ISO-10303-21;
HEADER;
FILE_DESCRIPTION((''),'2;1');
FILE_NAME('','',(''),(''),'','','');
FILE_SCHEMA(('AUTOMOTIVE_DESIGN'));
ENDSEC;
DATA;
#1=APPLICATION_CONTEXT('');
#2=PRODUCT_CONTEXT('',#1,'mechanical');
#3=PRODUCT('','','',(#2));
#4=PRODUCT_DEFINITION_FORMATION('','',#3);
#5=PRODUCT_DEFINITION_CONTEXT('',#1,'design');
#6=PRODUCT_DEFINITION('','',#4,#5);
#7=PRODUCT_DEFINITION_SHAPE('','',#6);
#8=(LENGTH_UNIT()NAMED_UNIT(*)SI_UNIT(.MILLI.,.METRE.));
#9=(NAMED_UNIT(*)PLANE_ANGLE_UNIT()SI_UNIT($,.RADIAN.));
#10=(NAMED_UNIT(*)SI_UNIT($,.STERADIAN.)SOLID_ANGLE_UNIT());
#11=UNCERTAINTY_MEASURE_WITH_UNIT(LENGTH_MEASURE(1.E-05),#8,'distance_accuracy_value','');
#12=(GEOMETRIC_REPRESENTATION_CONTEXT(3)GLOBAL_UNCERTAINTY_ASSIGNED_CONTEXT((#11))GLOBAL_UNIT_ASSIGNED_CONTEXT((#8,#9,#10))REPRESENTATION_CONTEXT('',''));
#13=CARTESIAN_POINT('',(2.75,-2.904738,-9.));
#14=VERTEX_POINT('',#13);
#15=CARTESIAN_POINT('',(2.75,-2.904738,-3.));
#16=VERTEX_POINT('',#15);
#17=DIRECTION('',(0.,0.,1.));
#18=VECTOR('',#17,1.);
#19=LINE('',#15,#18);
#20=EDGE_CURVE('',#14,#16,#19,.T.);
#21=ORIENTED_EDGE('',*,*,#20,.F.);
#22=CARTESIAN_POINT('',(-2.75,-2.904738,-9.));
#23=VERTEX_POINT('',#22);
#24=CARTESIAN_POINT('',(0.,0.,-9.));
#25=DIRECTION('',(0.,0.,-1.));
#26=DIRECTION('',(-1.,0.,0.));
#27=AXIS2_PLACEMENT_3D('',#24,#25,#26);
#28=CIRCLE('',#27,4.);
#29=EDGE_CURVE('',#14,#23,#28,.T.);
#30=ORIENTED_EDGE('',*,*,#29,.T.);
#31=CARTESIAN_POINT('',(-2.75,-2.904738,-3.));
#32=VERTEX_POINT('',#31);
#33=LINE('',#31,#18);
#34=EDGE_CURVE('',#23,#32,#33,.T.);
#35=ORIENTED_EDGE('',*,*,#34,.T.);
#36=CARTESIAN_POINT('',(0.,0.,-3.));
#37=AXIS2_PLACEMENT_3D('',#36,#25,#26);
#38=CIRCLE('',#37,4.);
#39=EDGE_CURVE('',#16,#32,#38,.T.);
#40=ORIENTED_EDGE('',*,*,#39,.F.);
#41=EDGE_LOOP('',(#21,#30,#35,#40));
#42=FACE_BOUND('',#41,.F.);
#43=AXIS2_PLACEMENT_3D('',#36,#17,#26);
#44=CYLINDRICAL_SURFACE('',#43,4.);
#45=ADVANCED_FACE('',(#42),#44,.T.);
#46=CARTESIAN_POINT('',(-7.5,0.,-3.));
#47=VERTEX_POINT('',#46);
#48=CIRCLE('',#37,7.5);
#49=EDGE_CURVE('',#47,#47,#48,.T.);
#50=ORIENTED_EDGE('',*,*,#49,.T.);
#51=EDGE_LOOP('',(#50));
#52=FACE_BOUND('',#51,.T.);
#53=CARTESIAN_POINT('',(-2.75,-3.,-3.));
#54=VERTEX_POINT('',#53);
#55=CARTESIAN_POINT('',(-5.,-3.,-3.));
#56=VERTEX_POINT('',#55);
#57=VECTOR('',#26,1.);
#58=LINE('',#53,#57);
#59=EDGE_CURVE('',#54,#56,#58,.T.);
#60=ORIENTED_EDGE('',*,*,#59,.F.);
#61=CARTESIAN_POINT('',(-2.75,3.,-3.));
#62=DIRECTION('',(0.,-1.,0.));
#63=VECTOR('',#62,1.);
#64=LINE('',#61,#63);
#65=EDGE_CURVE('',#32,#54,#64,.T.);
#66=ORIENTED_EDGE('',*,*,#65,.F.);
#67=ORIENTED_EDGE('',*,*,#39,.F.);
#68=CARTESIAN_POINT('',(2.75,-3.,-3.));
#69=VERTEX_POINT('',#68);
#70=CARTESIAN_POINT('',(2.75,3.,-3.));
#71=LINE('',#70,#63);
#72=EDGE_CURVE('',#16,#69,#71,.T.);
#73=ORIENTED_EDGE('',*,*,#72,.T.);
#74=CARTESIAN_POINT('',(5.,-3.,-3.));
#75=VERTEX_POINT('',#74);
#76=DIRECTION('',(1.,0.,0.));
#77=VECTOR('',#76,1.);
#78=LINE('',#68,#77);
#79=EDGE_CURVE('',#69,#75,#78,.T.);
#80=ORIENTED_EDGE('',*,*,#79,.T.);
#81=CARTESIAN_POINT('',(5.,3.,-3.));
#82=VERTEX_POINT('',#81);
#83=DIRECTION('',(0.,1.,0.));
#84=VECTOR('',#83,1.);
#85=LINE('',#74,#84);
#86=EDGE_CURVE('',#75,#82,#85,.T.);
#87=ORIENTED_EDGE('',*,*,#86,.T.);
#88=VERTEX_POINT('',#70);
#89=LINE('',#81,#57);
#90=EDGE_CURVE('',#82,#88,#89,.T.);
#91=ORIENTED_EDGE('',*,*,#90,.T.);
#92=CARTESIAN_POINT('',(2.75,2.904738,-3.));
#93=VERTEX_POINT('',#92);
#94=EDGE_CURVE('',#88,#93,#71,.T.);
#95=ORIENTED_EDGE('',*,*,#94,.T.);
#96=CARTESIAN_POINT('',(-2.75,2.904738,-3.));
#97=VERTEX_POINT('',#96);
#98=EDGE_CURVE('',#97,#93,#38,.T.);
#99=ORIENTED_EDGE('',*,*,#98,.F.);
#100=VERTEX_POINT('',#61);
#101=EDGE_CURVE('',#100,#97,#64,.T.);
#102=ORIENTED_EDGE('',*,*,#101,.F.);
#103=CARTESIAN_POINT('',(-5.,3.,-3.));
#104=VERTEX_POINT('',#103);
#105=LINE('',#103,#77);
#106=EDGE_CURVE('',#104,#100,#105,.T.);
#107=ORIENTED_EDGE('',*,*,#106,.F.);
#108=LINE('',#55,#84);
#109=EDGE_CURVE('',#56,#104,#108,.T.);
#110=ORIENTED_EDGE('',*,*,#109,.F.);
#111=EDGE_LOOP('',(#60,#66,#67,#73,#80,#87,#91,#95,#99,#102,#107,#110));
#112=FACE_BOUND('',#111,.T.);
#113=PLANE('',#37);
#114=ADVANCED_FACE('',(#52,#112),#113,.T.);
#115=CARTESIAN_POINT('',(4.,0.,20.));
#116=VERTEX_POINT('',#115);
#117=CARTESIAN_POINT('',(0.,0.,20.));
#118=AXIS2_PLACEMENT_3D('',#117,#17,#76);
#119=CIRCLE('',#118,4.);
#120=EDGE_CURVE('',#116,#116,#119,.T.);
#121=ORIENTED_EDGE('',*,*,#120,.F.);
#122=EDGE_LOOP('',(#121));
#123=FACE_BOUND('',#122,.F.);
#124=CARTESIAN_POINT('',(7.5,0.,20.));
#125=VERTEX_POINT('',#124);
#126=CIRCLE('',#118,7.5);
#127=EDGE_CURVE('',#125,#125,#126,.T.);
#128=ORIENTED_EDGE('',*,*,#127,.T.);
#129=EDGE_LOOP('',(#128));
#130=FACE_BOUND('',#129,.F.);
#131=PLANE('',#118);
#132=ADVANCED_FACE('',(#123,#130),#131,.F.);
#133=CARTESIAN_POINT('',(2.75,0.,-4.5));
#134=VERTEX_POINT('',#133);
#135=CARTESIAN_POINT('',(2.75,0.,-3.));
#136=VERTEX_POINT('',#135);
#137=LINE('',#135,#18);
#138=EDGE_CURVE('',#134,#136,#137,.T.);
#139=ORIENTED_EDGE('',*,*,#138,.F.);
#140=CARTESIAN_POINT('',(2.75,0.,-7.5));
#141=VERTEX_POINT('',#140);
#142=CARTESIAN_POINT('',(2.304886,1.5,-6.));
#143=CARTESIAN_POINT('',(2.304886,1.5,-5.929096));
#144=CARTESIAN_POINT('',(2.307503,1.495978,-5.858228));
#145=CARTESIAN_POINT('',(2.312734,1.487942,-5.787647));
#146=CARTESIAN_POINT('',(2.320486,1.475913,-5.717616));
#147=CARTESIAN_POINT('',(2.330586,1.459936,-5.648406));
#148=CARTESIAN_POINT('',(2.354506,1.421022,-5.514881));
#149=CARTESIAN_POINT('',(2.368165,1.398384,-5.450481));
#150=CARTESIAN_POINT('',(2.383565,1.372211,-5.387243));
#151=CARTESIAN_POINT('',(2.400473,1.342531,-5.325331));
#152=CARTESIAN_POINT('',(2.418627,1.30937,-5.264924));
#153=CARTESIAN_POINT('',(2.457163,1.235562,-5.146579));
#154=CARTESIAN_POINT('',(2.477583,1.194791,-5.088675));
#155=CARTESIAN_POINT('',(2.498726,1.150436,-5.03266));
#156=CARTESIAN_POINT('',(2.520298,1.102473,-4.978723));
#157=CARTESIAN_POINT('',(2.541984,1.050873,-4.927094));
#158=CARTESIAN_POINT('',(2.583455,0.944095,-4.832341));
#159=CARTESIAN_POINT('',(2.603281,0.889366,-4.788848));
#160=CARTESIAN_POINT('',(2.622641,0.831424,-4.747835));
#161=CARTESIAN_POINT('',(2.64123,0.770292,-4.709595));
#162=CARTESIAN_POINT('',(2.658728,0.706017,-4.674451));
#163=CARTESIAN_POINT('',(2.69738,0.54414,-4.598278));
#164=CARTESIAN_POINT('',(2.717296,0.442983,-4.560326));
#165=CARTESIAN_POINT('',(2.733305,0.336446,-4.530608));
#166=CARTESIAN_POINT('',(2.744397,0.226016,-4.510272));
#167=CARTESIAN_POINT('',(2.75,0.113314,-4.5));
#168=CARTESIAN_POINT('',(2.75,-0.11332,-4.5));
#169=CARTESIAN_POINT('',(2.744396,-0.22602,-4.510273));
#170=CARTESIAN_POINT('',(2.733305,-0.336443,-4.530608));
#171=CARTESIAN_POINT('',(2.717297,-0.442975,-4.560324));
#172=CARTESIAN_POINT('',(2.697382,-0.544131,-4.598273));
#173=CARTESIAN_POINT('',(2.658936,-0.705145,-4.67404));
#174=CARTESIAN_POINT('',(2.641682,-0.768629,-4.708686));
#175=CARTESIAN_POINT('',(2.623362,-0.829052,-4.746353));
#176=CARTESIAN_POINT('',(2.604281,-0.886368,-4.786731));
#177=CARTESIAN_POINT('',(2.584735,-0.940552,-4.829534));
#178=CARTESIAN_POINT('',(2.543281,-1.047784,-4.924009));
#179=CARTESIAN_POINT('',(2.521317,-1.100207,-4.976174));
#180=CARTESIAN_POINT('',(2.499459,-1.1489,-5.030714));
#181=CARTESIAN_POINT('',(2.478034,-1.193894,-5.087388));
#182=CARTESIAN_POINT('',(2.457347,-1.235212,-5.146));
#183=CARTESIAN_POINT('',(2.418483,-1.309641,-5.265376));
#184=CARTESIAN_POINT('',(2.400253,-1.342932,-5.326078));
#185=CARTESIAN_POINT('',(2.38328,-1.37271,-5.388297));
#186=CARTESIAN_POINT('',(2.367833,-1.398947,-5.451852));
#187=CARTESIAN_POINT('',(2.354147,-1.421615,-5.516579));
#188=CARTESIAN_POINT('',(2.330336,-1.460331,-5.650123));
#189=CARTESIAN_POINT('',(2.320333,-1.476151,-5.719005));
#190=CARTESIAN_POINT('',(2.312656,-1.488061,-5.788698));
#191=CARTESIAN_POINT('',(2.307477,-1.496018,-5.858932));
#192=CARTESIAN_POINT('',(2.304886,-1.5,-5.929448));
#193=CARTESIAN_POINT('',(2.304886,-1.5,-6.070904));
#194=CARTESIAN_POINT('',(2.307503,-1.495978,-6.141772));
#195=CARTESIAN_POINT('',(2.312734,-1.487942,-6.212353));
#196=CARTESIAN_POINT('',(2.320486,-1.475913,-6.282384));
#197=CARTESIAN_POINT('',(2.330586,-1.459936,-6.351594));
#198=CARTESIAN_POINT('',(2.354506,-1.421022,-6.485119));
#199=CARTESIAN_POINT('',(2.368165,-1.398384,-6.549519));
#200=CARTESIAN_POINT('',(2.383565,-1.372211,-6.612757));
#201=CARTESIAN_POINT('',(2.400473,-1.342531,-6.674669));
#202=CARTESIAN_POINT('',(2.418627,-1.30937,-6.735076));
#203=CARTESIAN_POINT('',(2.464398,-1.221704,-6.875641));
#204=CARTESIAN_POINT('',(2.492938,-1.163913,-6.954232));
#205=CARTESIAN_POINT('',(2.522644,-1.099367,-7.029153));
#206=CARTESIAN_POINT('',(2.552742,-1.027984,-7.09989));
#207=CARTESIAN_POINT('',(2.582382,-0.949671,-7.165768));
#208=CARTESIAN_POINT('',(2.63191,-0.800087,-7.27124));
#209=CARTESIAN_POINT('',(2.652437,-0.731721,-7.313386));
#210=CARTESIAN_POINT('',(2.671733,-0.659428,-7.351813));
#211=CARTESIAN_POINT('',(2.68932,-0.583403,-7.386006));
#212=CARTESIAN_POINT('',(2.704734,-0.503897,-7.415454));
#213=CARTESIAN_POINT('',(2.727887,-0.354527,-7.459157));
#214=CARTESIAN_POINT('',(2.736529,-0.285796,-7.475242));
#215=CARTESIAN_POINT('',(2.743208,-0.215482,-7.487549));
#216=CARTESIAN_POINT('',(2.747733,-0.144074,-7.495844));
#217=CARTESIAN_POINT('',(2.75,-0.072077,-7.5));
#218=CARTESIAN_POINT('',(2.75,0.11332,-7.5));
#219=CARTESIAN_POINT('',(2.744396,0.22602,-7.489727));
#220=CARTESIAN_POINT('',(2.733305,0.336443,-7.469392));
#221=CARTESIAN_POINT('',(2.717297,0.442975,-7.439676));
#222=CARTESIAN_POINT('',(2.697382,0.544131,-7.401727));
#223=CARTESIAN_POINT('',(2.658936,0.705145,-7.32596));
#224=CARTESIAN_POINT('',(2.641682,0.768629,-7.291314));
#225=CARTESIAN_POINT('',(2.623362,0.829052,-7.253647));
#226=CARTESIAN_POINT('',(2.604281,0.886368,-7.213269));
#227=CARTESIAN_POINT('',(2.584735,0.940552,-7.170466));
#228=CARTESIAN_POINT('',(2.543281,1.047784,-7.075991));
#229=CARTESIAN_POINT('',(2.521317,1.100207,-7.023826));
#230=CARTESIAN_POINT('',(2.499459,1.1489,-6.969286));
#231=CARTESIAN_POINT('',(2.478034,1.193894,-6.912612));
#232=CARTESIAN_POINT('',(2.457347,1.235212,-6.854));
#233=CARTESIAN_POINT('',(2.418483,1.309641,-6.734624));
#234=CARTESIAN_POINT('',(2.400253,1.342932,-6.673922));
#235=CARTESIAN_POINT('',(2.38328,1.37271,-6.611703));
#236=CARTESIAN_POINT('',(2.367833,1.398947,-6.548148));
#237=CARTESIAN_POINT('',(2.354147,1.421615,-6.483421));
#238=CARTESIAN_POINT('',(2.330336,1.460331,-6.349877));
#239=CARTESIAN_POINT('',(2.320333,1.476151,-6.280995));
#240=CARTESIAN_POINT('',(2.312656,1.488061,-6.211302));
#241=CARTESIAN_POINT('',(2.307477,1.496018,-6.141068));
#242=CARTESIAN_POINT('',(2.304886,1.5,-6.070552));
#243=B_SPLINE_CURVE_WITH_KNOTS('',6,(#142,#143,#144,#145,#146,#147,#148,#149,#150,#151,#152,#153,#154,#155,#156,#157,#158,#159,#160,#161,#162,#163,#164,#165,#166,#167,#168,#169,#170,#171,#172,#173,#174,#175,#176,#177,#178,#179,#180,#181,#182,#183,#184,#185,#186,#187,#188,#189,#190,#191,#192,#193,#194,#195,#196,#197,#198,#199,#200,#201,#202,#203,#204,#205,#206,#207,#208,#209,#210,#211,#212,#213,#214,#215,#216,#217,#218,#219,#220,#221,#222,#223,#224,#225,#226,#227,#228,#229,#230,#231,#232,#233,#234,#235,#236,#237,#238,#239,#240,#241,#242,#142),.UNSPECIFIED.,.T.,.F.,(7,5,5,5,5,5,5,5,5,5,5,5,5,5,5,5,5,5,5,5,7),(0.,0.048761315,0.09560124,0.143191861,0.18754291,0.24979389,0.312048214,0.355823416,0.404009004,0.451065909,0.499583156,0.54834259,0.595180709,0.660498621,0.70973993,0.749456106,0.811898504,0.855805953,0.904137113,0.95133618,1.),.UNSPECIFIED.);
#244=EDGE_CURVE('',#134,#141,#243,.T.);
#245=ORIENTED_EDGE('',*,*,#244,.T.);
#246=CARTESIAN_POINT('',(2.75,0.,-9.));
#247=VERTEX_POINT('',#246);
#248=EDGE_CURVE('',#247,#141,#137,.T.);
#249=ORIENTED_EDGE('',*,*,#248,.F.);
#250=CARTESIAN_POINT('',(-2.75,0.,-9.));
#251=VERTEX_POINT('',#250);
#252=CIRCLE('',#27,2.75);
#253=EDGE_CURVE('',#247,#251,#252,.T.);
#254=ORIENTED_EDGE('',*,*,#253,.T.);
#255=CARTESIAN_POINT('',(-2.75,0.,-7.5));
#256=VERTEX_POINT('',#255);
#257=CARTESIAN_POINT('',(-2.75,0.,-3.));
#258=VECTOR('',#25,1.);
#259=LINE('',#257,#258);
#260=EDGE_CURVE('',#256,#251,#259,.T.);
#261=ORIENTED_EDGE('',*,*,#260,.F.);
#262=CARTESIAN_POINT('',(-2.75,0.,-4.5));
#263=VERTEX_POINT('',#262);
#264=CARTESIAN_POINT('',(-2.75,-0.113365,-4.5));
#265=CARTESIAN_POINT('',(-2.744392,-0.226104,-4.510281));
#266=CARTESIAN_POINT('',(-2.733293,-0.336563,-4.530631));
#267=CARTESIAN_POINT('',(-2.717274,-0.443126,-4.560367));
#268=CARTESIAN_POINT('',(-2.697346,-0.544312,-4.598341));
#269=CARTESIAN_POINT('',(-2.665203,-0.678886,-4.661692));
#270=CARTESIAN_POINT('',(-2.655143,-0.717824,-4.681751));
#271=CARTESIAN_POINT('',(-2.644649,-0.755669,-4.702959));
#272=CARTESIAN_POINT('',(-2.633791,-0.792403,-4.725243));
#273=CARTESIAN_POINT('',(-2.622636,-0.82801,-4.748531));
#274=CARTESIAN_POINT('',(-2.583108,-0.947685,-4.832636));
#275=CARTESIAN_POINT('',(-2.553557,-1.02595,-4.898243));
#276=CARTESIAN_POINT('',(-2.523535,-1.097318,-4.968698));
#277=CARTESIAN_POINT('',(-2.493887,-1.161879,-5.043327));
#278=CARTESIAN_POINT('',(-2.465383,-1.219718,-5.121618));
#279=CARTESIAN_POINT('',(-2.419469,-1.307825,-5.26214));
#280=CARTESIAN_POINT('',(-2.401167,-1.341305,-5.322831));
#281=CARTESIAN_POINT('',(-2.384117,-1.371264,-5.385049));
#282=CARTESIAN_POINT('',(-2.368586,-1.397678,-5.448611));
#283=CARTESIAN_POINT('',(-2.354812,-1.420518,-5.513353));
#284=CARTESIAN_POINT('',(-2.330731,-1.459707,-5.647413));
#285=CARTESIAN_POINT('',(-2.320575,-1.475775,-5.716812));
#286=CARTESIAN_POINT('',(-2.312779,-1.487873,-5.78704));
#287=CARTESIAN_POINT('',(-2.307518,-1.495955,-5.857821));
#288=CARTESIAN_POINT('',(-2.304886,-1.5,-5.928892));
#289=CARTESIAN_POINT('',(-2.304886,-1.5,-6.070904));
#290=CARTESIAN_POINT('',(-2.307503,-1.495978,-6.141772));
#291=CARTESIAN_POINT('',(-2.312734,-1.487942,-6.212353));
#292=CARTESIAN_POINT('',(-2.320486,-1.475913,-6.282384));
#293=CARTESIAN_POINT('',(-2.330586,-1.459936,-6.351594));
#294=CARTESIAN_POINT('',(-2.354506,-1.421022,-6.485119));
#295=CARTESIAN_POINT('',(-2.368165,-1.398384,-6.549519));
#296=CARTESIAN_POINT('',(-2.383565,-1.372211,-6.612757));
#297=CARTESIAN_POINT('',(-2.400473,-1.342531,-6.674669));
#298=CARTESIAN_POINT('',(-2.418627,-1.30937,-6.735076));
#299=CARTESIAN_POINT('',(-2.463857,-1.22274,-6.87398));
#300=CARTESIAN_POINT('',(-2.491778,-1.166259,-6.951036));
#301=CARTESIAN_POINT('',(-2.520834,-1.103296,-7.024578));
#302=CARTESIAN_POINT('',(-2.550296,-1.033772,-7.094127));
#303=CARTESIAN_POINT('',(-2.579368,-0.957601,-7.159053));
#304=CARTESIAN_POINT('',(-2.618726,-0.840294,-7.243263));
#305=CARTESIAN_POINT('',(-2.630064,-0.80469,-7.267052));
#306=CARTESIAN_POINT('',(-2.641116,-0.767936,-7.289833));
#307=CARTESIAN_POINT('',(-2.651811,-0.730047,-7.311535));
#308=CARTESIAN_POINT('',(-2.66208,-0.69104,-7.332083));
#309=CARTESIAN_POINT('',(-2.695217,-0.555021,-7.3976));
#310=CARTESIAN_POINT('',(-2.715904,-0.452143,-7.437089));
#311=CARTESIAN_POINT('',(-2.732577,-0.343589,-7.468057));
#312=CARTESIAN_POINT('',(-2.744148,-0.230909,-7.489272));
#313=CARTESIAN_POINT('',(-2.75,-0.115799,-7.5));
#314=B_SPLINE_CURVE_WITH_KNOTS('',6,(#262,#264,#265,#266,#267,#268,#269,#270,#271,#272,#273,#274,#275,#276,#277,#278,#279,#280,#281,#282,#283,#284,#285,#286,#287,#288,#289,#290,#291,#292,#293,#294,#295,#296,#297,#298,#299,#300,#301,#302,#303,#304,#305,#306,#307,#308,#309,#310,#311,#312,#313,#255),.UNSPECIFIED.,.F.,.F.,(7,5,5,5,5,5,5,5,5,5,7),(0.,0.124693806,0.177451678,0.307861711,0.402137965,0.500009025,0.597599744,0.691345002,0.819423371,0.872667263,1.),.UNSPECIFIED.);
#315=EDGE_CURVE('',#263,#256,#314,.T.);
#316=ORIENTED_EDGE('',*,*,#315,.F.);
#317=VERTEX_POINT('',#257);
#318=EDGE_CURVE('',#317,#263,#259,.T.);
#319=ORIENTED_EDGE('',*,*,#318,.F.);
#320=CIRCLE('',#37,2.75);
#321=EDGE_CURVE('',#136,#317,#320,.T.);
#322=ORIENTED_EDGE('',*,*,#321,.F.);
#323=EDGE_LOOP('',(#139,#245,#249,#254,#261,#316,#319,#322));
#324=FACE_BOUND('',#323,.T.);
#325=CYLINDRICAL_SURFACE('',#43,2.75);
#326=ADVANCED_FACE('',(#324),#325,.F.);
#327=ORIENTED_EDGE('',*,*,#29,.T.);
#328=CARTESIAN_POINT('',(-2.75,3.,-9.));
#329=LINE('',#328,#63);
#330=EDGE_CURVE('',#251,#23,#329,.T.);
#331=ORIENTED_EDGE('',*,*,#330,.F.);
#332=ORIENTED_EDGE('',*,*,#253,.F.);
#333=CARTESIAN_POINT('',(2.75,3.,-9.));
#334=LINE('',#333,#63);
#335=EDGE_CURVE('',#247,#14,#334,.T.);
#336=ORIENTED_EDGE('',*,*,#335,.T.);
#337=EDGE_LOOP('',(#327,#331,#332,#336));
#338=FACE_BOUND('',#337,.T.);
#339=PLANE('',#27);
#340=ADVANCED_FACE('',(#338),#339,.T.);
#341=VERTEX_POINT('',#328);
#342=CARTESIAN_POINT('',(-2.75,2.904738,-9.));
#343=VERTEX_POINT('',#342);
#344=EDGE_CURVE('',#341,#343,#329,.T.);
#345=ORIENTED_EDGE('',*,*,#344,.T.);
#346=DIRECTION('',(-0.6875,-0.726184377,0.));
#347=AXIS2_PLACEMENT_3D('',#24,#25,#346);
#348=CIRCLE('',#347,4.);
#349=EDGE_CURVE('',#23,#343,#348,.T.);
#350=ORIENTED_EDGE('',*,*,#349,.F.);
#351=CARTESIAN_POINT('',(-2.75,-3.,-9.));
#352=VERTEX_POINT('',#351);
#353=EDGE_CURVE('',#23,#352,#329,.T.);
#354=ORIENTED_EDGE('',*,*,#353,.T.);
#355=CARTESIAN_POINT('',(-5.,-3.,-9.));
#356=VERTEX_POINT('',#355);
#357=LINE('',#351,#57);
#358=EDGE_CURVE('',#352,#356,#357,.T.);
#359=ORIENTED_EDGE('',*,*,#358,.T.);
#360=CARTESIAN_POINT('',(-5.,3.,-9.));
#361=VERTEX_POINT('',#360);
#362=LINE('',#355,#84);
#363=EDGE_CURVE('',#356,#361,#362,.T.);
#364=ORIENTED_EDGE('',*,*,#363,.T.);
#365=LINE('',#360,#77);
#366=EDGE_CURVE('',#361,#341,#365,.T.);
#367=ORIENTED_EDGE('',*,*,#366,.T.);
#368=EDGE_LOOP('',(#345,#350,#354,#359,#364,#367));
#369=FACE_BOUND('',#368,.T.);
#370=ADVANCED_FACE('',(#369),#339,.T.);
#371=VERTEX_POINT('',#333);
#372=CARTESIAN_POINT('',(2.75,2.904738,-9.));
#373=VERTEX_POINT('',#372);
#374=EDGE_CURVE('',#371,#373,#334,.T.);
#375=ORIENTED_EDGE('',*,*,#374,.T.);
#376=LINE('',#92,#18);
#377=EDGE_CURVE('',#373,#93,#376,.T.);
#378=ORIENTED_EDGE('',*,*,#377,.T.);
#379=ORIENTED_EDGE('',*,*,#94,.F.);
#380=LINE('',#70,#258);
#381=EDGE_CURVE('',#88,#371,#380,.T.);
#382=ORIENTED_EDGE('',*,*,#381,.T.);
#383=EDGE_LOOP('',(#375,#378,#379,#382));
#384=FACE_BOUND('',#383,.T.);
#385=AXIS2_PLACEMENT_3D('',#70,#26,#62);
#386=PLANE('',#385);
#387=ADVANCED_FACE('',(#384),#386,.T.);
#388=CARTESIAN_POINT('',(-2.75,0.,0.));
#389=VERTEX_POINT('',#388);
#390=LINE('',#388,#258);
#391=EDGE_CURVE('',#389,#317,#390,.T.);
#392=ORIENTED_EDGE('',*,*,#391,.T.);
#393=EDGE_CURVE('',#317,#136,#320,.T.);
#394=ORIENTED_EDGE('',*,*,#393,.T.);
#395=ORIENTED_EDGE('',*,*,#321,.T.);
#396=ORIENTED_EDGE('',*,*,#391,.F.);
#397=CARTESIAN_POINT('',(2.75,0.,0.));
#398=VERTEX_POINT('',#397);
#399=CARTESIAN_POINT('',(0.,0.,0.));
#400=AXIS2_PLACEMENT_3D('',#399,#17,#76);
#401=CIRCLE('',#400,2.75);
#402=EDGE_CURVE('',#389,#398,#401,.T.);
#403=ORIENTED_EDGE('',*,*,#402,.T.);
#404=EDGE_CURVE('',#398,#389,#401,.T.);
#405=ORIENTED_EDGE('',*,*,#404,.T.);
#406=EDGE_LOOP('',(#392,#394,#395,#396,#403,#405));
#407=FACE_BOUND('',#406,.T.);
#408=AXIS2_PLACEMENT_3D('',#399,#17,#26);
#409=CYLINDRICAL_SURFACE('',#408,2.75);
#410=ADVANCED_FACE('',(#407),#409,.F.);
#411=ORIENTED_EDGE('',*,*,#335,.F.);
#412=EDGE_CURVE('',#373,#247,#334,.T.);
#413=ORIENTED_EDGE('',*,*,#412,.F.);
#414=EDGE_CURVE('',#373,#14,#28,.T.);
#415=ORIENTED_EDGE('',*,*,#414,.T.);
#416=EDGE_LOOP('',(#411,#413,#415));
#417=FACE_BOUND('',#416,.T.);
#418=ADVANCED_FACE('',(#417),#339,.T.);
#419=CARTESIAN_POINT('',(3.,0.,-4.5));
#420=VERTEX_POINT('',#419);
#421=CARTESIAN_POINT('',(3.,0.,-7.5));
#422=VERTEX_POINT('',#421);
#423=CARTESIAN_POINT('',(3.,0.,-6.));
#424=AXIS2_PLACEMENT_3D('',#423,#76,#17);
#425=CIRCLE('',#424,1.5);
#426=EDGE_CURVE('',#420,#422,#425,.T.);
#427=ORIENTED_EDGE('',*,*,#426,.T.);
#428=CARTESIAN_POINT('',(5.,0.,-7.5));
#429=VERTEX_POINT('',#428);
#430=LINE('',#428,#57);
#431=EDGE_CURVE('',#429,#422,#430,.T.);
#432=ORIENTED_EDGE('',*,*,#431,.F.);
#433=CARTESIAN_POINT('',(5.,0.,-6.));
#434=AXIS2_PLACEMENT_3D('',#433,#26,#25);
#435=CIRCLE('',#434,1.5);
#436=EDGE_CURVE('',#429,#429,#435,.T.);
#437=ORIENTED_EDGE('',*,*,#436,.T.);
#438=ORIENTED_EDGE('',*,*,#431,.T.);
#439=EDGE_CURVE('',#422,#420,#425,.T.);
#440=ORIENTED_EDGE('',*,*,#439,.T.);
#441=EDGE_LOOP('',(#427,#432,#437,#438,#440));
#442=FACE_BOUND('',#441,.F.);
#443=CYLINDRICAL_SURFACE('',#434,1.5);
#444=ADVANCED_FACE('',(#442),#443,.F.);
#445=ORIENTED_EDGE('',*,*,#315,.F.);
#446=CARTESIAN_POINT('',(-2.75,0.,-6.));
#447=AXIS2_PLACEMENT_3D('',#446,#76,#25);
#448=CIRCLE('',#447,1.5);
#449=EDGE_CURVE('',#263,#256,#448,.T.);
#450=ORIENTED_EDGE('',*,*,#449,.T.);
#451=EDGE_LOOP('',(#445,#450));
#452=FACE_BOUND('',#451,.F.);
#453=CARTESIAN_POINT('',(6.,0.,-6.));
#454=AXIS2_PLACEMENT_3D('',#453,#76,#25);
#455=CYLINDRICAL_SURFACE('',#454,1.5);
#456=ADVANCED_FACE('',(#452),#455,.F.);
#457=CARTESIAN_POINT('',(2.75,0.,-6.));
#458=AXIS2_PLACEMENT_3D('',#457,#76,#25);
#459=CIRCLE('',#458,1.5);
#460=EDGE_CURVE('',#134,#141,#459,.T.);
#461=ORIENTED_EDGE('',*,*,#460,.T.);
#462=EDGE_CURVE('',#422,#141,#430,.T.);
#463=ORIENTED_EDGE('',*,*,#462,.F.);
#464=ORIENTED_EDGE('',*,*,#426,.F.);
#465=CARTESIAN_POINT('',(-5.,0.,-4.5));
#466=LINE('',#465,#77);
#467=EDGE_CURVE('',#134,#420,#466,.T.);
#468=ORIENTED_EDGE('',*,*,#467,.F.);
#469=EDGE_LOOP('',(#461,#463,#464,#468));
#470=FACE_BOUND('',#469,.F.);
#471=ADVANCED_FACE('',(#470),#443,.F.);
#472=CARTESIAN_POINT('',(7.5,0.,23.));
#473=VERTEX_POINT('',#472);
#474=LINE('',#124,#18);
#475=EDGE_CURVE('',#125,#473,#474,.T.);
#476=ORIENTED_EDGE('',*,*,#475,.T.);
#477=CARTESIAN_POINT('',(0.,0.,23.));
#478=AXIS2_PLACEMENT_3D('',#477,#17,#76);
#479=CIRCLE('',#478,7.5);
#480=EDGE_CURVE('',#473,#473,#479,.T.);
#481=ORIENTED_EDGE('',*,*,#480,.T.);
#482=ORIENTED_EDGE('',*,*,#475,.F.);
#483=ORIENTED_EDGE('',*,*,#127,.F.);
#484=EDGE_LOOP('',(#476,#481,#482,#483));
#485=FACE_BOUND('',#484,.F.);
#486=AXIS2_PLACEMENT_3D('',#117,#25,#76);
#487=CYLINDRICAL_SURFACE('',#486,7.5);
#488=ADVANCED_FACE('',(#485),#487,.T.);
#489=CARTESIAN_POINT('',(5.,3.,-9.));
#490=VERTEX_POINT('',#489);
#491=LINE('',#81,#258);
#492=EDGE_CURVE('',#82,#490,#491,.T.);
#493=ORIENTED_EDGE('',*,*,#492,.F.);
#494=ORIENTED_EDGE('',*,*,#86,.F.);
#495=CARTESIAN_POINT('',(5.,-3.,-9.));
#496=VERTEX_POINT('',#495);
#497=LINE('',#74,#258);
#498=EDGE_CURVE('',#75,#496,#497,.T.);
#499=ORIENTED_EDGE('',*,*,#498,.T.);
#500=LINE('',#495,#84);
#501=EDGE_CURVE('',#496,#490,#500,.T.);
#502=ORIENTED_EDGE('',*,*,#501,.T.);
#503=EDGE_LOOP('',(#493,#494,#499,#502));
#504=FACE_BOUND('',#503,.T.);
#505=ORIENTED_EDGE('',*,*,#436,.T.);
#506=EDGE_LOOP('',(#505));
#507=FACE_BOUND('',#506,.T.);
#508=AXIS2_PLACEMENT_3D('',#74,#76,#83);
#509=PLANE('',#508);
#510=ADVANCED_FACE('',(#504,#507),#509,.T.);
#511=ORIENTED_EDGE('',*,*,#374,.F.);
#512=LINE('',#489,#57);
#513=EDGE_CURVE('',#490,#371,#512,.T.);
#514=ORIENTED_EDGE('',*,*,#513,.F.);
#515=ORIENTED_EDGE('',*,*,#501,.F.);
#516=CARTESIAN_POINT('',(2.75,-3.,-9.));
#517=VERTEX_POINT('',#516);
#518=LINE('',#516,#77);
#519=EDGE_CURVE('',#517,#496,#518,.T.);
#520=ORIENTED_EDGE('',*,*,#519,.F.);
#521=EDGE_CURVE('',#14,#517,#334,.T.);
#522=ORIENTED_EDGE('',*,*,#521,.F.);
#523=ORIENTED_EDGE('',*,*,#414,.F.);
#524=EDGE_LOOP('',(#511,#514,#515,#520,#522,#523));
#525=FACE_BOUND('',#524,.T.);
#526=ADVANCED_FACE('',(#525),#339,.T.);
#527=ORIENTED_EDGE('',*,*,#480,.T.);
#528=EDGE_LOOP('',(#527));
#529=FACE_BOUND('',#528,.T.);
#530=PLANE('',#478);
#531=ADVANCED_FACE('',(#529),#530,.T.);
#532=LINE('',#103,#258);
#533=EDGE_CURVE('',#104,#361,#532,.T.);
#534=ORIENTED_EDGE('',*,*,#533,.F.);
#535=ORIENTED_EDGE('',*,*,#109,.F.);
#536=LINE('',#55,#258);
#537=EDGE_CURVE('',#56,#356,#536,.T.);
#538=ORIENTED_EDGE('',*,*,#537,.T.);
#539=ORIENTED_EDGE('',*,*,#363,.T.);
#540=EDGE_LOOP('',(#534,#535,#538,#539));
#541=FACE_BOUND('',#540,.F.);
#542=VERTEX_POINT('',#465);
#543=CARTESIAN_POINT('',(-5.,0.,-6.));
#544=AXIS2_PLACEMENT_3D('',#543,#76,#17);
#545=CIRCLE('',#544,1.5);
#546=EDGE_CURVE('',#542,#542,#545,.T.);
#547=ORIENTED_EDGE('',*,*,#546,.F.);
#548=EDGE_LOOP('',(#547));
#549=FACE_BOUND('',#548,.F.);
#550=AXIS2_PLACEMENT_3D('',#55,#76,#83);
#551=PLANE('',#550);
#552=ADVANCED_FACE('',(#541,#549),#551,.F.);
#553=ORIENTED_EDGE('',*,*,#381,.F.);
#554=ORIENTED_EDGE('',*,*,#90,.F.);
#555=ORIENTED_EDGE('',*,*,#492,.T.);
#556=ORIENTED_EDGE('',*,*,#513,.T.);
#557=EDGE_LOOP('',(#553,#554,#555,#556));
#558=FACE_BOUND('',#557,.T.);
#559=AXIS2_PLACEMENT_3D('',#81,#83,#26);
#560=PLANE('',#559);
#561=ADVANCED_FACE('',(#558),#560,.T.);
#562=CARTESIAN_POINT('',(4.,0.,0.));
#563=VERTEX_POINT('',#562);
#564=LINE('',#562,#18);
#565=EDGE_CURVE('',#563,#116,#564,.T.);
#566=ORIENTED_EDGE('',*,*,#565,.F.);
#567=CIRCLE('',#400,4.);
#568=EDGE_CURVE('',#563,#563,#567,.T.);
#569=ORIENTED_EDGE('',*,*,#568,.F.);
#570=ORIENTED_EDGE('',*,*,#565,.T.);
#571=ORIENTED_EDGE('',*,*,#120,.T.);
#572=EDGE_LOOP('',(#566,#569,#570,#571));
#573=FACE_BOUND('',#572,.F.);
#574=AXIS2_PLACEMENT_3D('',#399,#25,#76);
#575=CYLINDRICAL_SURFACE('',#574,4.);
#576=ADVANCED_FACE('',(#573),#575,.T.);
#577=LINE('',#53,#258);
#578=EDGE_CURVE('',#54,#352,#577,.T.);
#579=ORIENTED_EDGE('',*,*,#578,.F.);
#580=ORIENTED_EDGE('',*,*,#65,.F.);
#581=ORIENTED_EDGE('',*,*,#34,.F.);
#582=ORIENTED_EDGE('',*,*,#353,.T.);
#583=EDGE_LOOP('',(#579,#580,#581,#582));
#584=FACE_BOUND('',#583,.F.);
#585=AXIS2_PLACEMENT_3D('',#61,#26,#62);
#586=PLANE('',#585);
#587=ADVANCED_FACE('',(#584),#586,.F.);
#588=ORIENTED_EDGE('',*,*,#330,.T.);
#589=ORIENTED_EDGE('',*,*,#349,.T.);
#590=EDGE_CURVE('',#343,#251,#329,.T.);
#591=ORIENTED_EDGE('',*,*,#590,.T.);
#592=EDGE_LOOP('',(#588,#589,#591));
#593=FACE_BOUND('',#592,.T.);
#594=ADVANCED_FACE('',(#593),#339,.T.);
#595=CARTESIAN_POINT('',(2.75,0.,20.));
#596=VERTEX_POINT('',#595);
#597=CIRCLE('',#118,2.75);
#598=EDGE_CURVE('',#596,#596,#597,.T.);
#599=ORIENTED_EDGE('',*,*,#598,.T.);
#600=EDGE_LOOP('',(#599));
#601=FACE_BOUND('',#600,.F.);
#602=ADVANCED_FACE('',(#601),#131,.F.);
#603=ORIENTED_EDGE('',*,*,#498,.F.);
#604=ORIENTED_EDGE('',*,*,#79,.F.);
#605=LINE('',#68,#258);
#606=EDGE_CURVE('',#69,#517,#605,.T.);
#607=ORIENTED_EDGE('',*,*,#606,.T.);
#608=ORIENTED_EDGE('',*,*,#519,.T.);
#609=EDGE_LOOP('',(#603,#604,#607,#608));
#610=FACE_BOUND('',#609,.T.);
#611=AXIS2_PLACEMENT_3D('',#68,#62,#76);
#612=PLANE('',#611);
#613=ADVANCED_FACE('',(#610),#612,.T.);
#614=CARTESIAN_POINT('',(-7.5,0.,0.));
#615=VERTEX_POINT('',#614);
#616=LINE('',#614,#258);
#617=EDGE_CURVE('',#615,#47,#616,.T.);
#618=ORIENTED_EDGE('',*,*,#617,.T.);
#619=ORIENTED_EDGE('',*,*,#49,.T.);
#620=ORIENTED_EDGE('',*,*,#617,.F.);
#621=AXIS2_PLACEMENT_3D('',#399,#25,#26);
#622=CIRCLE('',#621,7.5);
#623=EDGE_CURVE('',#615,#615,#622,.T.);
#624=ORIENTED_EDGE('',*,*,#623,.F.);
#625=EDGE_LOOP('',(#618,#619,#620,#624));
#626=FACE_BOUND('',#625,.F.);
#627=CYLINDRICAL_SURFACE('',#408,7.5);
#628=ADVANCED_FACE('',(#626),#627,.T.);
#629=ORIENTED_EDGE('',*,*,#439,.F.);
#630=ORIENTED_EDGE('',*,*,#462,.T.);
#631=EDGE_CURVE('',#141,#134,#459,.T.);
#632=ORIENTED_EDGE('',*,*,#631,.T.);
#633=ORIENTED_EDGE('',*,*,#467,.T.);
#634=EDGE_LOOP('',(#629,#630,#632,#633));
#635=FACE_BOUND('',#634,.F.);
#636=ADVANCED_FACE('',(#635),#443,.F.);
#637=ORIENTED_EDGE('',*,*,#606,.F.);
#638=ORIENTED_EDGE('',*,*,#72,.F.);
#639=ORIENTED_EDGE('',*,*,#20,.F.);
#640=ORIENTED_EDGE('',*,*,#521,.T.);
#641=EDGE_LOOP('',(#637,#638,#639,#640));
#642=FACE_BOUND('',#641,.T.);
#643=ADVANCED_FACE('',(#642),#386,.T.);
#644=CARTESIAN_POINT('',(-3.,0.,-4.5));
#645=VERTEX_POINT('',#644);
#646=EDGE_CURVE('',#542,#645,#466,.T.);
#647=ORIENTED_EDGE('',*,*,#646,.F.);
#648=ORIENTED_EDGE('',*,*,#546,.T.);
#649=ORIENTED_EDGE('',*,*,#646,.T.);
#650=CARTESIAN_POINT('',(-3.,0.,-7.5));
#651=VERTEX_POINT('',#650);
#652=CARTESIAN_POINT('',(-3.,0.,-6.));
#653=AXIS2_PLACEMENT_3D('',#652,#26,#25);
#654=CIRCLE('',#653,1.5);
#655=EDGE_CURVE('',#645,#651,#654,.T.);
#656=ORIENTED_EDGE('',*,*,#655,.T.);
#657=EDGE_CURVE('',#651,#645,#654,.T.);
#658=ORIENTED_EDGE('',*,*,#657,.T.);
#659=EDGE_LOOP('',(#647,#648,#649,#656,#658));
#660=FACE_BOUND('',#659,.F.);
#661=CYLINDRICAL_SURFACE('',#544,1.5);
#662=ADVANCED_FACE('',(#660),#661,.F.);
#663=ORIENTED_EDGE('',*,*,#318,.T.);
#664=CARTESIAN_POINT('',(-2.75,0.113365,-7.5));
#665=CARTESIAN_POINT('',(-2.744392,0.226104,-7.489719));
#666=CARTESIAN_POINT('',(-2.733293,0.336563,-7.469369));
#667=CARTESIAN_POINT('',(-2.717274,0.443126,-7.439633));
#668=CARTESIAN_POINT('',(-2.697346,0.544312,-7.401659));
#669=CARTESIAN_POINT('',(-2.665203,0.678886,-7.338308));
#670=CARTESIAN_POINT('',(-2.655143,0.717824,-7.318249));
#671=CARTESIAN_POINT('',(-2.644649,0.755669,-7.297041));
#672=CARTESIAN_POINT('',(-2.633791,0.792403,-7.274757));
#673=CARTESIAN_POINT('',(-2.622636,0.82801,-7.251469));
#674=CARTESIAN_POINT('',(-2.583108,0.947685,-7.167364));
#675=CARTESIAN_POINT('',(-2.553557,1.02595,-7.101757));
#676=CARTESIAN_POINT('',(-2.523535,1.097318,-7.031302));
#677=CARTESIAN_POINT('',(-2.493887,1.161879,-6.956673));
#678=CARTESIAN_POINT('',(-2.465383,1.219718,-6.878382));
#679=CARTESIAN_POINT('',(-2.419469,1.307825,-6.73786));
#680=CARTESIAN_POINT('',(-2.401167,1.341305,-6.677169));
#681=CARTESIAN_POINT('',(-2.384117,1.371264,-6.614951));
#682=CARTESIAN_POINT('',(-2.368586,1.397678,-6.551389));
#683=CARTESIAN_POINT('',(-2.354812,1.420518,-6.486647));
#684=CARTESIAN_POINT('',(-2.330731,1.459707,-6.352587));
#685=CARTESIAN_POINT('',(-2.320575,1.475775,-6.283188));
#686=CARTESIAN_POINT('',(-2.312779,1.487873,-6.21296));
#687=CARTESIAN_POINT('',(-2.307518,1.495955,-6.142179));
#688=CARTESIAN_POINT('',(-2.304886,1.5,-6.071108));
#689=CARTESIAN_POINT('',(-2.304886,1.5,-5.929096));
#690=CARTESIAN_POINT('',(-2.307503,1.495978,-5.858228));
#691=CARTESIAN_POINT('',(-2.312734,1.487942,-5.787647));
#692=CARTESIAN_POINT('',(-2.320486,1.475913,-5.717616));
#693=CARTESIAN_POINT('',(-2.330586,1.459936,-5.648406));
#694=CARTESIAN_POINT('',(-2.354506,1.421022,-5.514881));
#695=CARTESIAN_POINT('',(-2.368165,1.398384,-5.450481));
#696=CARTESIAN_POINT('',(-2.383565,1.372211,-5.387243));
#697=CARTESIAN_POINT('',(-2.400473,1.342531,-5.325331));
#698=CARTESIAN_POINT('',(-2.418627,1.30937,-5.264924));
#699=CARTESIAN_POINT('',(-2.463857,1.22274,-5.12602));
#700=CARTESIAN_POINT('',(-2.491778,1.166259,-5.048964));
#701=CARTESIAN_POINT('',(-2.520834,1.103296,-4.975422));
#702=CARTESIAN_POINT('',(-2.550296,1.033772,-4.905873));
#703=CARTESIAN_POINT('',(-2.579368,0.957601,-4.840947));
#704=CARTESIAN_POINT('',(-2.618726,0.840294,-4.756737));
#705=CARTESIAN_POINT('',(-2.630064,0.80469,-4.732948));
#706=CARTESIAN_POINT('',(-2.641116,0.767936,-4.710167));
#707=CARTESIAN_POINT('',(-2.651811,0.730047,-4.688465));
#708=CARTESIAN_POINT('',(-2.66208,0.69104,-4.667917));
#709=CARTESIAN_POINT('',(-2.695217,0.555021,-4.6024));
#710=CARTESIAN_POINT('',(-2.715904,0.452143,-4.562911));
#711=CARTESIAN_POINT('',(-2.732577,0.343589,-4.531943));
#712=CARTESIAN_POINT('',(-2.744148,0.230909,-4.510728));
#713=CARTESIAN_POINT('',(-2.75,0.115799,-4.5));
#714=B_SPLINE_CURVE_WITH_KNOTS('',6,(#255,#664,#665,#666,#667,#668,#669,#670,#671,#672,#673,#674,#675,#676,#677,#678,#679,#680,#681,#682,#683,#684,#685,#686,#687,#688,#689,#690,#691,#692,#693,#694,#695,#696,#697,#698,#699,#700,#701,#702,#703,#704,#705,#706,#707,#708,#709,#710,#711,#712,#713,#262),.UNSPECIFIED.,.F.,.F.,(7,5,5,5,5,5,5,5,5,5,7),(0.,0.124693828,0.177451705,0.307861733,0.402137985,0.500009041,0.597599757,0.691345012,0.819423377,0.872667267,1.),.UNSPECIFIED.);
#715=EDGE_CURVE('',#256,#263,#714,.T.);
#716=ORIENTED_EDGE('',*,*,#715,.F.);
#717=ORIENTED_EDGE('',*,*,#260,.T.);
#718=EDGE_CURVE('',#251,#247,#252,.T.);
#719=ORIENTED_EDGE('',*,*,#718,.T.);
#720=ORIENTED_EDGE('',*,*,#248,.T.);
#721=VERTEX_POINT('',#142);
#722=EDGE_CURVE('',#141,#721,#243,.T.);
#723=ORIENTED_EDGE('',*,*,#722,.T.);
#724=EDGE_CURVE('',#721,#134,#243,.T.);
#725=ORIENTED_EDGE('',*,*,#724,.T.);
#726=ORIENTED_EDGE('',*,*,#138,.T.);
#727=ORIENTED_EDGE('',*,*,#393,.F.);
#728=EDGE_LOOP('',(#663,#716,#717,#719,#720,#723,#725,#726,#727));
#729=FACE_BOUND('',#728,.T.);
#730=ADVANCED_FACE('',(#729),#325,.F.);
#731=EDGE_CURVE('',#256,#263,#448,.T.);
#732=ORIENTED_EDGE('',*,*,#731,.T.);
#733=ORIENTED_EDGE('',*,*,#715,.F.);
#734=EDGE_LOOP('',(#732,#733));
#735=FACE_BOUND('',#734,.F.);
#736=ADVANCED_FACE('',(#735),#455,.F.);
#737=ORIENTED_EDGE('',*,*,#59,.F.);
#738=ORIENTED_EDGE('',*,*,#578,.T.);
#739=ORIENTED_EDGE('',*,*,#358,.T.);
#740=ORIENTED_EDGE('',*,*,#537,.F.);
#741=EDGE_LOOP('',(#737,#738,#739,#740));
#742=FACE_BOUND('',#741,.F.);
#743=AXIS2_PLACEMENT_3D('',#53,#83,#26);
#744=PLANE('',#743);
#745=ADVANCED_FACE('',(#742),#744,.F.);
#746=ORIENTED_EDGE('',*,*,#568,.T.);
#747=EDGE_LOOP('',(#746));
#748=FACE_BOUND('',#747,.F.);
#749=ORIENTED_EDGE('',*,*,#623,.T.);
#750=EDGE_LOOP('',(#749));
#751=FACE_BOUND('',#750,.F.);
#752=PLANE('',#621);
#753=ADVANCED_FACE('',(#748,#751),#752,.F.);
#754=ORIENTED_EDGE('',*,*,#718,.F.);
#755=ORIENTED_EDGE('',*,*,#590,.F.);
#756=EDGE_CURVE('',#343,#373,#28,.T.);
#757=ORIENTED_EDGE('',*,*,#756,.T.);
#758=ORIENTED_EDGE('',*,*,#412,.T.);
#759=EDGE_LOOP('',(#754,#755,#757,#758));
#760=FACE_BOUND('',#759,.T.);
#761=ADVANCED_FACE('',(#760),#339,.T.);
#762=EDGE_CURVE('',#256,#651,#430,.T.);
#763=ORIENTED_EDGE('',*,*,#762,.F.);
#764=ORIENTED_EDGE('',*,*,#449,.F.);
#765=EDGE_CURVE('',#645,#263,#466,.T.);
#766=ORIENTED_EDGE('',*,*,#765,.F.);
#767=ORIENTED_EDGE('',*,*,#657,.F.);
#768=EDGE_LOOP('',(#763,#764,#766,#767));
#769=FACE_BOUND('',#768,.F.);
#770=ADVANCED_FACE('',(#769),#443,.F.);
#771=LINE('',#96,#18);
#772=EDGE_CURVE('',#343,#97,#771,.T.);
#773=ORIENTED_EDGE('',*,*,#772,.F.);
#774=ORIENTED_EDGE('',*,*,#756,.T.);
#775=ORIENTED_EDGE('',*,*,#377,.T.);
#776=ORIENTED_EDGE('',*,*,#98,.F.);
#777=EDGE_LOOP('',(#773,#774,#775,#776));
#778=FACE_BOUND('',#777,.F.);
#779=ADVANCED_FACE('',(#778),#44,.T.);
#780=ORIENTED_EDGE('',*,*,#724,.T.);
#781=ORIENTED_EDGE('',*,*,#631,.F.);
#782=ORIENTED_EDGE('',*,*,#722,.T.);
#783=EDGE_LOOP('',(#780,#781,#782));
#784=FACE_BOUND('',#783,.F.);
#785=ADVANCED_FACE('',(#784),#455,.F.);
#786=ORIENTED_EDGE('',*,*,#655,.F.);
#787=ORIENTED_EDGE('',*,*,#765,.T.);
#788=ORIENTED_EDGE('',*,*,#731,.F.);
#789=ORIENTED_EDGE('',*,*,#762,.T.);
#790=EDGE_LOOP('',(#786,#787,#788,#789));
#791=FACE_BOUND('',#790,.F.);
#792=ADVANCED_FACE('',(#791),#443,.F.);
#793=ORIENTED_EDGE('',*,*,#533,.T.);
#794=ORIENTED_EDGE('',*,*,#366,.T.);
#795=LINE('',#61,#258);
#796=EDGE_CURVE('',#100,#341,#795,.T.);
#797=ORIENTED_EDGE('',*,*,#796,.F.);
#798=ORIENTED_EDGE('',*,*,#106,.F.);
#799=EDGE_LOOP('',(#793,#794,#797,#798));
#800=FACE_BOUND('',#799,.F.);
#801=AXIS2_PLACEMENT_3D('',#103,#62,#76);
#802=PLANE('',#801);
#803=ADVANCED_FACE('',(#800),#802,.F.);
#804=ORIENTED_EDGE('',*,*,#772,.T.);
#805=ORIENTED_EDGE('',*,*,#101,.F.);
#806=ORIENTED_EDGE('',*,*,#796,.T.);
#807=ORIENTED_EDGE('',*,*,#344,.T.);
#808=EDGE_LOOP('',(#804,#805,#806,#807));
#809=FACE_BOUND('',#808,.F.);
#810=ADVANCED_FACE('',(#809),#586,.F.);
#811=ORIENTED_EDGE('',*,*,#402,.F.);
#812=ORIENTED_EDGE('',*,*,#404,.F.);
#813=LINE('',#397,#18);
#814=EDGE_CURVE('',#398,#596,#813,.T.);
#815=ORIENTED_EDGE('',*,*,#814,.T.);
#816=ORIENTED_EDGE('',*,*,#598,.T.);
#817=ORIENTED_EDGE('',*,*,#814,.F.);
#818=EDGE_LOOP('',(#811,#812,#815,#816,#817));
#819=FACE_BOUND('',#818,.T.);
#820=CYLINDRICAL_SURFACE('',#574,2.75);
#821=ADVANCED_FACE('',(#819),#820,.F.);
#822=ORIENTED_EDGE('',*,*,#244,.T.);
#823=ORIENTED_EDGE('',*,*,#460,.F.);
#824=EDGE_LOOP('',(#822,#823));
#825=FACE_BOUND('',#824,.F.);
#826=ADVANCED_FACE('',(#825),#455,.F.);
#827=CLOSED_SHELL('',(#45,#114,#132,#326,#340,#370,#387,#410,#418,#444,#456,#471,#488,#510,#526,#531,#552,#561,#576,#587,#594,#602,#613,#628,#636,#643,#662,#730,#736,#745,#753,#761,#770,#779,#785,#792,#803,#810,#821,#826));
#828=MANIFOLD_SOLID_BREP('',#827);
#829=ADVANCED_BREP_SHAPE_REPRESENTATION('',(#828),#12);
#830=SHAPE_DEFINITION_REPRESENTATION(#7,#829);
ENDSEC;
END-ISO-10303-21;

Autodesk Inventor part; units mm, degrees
ref_plane "YZ Plane" through (0, 0, 0) normal (1, 0, 0) x (0, 1, 0)
ref_plane "XZ Plane" through (0, 0, 0) normal (0, 1, 0) x (-1, 0, 0)
ref_plane "XY Plane" through (0, 0, 0) normal (0, 0, 1) x (1, 0, 0)
sketch "Sketch1" plane through (0, 0, 0) normal (0, 0, 1) x (1, 0, 0)
  circle A0 centre (0, 0) radius 2.75
  circle A1 centre (0, 0) radius 4
  dimension "d0" = 5.5
  dimension "d1" = 8
extrude "Extrusion1" add sketch "Sketch1" along normal blind 20
sketch "Sketch2" plane through (0, 0, 20) normal (0, 0, 1) x (1, 0, 0)
  circle A0 centre (0, 0) radius 7.5
  dimension "d4" = 15
extrude "Extrusion2" add sketch "Sketch2" along normal blind 3
sketch "Sketch3" plane through (0, 0, 0) normal (1, 0, 0) x (0, 1, 0)
  point P0 (0, 0)
sketch "Sketch4" plane through (0, 0, 0) normal (0, 0, -1) x (-1, 0, 0)
  circle A0 centre (0, 0) radius 2.75
  circle A1 centre (0, 0) radius 7.5
  dimension "d7" = 5.5
  dimension "d8" = 15
extrude "Extrusion3" add sketch "Sketch4" along normal blind 3
sketch "Sketch5" plane through (0, 0, -3) normal (0, 0, -1) x (-1, 0, 0)
  circle A0 centre (0, 0) radius 2.75
  circle A1 centre (0, 0) radius 4
extrude "Extrusion4" add sketch "Sketch5" along normal blind 6
sketch "Sketch6" plane through (0, 0, 0) normal (1, 0, 0) x (0, 1, 0)
  circle A0 centre (0, -6) radius 1.5
  line L0 (-4, -9) -> (4, -9) projected
  point P0 (0, 0)
  dimension "d13" = 3
  dimension "d14" = 3
extrude "Extrusion5" add sketch "Sketch6" along normal blind 6
sketch "Sketch7" plane through (6, 0, -6) normal (1, 0, 0) x (0, 0, -1)
  circle A0 centre (0, 0) radius 1.5 projected
  circle A1 centre (0, 0) radius 1.5
  point P0 (-6, 0)
  dimension "d17" = 3
extrude "Extrusion6" cut sketch "Sketch7" against normal blind 20
sketch "Sketch8" plane through (0, 0, -3) normal (0, 0, -1) x (-1, 0, 0)
  line L0 (-5, 3) -> (-2.75, 3)
  line L1 (-2.75, 3) -> (-2.75, -3)
  line L2 (-2.75, -3) -> (-5, -3)
  line L3 (-5, -3) -> (-5, 3)
  line L4 (2.75, -3) -> (5, -3)
  line L5 (5, -3) -> (5, 3)
  line L6 (5, 3) -> (2.75, 3)
  line L7 (2.75, 3) -> (2.75, -3)
  point P0 (0, 0)
  dimension "d20" = 3
  dimension "d21" = 3
  dimension "d22" = 5
  dimension "d23" = 2.75
  dimension "d24" = 2.75
  dimension "d25" = 5
extrude "Extrusion7" add sketch "Sketch8" along normal blind 6
sketch "Sketch9" plane through (5, -3, -3) normal (1, 0, 0) x (0, 0, -1)
  arc A0 (1.5, 3) -> (4.5, 3) centre (3, 3) ccw projected
  point P0 (-3, 3)
hole "Hole1" at (5, 0, -6) direction (-1, 0, 0) diameter 3 depth 8 tip angle 118
sketch "Sketch10" plane through (-5, -3, -3) normal (-1, 0, 0) x (0, 0, 1)
  circle A0 centre (-3, 3) radius 1.5 projected
  point P0 (3, 3)
hole "Hole2" at (-5, 0, -6) direction (1, 0, 0) diameter 3 depth 8 tip angle 118
thread "Thread1" size "M8x1.25" class "6g" standard "ANSI Metric M Profile" full length
properties part number "bearing v1"
